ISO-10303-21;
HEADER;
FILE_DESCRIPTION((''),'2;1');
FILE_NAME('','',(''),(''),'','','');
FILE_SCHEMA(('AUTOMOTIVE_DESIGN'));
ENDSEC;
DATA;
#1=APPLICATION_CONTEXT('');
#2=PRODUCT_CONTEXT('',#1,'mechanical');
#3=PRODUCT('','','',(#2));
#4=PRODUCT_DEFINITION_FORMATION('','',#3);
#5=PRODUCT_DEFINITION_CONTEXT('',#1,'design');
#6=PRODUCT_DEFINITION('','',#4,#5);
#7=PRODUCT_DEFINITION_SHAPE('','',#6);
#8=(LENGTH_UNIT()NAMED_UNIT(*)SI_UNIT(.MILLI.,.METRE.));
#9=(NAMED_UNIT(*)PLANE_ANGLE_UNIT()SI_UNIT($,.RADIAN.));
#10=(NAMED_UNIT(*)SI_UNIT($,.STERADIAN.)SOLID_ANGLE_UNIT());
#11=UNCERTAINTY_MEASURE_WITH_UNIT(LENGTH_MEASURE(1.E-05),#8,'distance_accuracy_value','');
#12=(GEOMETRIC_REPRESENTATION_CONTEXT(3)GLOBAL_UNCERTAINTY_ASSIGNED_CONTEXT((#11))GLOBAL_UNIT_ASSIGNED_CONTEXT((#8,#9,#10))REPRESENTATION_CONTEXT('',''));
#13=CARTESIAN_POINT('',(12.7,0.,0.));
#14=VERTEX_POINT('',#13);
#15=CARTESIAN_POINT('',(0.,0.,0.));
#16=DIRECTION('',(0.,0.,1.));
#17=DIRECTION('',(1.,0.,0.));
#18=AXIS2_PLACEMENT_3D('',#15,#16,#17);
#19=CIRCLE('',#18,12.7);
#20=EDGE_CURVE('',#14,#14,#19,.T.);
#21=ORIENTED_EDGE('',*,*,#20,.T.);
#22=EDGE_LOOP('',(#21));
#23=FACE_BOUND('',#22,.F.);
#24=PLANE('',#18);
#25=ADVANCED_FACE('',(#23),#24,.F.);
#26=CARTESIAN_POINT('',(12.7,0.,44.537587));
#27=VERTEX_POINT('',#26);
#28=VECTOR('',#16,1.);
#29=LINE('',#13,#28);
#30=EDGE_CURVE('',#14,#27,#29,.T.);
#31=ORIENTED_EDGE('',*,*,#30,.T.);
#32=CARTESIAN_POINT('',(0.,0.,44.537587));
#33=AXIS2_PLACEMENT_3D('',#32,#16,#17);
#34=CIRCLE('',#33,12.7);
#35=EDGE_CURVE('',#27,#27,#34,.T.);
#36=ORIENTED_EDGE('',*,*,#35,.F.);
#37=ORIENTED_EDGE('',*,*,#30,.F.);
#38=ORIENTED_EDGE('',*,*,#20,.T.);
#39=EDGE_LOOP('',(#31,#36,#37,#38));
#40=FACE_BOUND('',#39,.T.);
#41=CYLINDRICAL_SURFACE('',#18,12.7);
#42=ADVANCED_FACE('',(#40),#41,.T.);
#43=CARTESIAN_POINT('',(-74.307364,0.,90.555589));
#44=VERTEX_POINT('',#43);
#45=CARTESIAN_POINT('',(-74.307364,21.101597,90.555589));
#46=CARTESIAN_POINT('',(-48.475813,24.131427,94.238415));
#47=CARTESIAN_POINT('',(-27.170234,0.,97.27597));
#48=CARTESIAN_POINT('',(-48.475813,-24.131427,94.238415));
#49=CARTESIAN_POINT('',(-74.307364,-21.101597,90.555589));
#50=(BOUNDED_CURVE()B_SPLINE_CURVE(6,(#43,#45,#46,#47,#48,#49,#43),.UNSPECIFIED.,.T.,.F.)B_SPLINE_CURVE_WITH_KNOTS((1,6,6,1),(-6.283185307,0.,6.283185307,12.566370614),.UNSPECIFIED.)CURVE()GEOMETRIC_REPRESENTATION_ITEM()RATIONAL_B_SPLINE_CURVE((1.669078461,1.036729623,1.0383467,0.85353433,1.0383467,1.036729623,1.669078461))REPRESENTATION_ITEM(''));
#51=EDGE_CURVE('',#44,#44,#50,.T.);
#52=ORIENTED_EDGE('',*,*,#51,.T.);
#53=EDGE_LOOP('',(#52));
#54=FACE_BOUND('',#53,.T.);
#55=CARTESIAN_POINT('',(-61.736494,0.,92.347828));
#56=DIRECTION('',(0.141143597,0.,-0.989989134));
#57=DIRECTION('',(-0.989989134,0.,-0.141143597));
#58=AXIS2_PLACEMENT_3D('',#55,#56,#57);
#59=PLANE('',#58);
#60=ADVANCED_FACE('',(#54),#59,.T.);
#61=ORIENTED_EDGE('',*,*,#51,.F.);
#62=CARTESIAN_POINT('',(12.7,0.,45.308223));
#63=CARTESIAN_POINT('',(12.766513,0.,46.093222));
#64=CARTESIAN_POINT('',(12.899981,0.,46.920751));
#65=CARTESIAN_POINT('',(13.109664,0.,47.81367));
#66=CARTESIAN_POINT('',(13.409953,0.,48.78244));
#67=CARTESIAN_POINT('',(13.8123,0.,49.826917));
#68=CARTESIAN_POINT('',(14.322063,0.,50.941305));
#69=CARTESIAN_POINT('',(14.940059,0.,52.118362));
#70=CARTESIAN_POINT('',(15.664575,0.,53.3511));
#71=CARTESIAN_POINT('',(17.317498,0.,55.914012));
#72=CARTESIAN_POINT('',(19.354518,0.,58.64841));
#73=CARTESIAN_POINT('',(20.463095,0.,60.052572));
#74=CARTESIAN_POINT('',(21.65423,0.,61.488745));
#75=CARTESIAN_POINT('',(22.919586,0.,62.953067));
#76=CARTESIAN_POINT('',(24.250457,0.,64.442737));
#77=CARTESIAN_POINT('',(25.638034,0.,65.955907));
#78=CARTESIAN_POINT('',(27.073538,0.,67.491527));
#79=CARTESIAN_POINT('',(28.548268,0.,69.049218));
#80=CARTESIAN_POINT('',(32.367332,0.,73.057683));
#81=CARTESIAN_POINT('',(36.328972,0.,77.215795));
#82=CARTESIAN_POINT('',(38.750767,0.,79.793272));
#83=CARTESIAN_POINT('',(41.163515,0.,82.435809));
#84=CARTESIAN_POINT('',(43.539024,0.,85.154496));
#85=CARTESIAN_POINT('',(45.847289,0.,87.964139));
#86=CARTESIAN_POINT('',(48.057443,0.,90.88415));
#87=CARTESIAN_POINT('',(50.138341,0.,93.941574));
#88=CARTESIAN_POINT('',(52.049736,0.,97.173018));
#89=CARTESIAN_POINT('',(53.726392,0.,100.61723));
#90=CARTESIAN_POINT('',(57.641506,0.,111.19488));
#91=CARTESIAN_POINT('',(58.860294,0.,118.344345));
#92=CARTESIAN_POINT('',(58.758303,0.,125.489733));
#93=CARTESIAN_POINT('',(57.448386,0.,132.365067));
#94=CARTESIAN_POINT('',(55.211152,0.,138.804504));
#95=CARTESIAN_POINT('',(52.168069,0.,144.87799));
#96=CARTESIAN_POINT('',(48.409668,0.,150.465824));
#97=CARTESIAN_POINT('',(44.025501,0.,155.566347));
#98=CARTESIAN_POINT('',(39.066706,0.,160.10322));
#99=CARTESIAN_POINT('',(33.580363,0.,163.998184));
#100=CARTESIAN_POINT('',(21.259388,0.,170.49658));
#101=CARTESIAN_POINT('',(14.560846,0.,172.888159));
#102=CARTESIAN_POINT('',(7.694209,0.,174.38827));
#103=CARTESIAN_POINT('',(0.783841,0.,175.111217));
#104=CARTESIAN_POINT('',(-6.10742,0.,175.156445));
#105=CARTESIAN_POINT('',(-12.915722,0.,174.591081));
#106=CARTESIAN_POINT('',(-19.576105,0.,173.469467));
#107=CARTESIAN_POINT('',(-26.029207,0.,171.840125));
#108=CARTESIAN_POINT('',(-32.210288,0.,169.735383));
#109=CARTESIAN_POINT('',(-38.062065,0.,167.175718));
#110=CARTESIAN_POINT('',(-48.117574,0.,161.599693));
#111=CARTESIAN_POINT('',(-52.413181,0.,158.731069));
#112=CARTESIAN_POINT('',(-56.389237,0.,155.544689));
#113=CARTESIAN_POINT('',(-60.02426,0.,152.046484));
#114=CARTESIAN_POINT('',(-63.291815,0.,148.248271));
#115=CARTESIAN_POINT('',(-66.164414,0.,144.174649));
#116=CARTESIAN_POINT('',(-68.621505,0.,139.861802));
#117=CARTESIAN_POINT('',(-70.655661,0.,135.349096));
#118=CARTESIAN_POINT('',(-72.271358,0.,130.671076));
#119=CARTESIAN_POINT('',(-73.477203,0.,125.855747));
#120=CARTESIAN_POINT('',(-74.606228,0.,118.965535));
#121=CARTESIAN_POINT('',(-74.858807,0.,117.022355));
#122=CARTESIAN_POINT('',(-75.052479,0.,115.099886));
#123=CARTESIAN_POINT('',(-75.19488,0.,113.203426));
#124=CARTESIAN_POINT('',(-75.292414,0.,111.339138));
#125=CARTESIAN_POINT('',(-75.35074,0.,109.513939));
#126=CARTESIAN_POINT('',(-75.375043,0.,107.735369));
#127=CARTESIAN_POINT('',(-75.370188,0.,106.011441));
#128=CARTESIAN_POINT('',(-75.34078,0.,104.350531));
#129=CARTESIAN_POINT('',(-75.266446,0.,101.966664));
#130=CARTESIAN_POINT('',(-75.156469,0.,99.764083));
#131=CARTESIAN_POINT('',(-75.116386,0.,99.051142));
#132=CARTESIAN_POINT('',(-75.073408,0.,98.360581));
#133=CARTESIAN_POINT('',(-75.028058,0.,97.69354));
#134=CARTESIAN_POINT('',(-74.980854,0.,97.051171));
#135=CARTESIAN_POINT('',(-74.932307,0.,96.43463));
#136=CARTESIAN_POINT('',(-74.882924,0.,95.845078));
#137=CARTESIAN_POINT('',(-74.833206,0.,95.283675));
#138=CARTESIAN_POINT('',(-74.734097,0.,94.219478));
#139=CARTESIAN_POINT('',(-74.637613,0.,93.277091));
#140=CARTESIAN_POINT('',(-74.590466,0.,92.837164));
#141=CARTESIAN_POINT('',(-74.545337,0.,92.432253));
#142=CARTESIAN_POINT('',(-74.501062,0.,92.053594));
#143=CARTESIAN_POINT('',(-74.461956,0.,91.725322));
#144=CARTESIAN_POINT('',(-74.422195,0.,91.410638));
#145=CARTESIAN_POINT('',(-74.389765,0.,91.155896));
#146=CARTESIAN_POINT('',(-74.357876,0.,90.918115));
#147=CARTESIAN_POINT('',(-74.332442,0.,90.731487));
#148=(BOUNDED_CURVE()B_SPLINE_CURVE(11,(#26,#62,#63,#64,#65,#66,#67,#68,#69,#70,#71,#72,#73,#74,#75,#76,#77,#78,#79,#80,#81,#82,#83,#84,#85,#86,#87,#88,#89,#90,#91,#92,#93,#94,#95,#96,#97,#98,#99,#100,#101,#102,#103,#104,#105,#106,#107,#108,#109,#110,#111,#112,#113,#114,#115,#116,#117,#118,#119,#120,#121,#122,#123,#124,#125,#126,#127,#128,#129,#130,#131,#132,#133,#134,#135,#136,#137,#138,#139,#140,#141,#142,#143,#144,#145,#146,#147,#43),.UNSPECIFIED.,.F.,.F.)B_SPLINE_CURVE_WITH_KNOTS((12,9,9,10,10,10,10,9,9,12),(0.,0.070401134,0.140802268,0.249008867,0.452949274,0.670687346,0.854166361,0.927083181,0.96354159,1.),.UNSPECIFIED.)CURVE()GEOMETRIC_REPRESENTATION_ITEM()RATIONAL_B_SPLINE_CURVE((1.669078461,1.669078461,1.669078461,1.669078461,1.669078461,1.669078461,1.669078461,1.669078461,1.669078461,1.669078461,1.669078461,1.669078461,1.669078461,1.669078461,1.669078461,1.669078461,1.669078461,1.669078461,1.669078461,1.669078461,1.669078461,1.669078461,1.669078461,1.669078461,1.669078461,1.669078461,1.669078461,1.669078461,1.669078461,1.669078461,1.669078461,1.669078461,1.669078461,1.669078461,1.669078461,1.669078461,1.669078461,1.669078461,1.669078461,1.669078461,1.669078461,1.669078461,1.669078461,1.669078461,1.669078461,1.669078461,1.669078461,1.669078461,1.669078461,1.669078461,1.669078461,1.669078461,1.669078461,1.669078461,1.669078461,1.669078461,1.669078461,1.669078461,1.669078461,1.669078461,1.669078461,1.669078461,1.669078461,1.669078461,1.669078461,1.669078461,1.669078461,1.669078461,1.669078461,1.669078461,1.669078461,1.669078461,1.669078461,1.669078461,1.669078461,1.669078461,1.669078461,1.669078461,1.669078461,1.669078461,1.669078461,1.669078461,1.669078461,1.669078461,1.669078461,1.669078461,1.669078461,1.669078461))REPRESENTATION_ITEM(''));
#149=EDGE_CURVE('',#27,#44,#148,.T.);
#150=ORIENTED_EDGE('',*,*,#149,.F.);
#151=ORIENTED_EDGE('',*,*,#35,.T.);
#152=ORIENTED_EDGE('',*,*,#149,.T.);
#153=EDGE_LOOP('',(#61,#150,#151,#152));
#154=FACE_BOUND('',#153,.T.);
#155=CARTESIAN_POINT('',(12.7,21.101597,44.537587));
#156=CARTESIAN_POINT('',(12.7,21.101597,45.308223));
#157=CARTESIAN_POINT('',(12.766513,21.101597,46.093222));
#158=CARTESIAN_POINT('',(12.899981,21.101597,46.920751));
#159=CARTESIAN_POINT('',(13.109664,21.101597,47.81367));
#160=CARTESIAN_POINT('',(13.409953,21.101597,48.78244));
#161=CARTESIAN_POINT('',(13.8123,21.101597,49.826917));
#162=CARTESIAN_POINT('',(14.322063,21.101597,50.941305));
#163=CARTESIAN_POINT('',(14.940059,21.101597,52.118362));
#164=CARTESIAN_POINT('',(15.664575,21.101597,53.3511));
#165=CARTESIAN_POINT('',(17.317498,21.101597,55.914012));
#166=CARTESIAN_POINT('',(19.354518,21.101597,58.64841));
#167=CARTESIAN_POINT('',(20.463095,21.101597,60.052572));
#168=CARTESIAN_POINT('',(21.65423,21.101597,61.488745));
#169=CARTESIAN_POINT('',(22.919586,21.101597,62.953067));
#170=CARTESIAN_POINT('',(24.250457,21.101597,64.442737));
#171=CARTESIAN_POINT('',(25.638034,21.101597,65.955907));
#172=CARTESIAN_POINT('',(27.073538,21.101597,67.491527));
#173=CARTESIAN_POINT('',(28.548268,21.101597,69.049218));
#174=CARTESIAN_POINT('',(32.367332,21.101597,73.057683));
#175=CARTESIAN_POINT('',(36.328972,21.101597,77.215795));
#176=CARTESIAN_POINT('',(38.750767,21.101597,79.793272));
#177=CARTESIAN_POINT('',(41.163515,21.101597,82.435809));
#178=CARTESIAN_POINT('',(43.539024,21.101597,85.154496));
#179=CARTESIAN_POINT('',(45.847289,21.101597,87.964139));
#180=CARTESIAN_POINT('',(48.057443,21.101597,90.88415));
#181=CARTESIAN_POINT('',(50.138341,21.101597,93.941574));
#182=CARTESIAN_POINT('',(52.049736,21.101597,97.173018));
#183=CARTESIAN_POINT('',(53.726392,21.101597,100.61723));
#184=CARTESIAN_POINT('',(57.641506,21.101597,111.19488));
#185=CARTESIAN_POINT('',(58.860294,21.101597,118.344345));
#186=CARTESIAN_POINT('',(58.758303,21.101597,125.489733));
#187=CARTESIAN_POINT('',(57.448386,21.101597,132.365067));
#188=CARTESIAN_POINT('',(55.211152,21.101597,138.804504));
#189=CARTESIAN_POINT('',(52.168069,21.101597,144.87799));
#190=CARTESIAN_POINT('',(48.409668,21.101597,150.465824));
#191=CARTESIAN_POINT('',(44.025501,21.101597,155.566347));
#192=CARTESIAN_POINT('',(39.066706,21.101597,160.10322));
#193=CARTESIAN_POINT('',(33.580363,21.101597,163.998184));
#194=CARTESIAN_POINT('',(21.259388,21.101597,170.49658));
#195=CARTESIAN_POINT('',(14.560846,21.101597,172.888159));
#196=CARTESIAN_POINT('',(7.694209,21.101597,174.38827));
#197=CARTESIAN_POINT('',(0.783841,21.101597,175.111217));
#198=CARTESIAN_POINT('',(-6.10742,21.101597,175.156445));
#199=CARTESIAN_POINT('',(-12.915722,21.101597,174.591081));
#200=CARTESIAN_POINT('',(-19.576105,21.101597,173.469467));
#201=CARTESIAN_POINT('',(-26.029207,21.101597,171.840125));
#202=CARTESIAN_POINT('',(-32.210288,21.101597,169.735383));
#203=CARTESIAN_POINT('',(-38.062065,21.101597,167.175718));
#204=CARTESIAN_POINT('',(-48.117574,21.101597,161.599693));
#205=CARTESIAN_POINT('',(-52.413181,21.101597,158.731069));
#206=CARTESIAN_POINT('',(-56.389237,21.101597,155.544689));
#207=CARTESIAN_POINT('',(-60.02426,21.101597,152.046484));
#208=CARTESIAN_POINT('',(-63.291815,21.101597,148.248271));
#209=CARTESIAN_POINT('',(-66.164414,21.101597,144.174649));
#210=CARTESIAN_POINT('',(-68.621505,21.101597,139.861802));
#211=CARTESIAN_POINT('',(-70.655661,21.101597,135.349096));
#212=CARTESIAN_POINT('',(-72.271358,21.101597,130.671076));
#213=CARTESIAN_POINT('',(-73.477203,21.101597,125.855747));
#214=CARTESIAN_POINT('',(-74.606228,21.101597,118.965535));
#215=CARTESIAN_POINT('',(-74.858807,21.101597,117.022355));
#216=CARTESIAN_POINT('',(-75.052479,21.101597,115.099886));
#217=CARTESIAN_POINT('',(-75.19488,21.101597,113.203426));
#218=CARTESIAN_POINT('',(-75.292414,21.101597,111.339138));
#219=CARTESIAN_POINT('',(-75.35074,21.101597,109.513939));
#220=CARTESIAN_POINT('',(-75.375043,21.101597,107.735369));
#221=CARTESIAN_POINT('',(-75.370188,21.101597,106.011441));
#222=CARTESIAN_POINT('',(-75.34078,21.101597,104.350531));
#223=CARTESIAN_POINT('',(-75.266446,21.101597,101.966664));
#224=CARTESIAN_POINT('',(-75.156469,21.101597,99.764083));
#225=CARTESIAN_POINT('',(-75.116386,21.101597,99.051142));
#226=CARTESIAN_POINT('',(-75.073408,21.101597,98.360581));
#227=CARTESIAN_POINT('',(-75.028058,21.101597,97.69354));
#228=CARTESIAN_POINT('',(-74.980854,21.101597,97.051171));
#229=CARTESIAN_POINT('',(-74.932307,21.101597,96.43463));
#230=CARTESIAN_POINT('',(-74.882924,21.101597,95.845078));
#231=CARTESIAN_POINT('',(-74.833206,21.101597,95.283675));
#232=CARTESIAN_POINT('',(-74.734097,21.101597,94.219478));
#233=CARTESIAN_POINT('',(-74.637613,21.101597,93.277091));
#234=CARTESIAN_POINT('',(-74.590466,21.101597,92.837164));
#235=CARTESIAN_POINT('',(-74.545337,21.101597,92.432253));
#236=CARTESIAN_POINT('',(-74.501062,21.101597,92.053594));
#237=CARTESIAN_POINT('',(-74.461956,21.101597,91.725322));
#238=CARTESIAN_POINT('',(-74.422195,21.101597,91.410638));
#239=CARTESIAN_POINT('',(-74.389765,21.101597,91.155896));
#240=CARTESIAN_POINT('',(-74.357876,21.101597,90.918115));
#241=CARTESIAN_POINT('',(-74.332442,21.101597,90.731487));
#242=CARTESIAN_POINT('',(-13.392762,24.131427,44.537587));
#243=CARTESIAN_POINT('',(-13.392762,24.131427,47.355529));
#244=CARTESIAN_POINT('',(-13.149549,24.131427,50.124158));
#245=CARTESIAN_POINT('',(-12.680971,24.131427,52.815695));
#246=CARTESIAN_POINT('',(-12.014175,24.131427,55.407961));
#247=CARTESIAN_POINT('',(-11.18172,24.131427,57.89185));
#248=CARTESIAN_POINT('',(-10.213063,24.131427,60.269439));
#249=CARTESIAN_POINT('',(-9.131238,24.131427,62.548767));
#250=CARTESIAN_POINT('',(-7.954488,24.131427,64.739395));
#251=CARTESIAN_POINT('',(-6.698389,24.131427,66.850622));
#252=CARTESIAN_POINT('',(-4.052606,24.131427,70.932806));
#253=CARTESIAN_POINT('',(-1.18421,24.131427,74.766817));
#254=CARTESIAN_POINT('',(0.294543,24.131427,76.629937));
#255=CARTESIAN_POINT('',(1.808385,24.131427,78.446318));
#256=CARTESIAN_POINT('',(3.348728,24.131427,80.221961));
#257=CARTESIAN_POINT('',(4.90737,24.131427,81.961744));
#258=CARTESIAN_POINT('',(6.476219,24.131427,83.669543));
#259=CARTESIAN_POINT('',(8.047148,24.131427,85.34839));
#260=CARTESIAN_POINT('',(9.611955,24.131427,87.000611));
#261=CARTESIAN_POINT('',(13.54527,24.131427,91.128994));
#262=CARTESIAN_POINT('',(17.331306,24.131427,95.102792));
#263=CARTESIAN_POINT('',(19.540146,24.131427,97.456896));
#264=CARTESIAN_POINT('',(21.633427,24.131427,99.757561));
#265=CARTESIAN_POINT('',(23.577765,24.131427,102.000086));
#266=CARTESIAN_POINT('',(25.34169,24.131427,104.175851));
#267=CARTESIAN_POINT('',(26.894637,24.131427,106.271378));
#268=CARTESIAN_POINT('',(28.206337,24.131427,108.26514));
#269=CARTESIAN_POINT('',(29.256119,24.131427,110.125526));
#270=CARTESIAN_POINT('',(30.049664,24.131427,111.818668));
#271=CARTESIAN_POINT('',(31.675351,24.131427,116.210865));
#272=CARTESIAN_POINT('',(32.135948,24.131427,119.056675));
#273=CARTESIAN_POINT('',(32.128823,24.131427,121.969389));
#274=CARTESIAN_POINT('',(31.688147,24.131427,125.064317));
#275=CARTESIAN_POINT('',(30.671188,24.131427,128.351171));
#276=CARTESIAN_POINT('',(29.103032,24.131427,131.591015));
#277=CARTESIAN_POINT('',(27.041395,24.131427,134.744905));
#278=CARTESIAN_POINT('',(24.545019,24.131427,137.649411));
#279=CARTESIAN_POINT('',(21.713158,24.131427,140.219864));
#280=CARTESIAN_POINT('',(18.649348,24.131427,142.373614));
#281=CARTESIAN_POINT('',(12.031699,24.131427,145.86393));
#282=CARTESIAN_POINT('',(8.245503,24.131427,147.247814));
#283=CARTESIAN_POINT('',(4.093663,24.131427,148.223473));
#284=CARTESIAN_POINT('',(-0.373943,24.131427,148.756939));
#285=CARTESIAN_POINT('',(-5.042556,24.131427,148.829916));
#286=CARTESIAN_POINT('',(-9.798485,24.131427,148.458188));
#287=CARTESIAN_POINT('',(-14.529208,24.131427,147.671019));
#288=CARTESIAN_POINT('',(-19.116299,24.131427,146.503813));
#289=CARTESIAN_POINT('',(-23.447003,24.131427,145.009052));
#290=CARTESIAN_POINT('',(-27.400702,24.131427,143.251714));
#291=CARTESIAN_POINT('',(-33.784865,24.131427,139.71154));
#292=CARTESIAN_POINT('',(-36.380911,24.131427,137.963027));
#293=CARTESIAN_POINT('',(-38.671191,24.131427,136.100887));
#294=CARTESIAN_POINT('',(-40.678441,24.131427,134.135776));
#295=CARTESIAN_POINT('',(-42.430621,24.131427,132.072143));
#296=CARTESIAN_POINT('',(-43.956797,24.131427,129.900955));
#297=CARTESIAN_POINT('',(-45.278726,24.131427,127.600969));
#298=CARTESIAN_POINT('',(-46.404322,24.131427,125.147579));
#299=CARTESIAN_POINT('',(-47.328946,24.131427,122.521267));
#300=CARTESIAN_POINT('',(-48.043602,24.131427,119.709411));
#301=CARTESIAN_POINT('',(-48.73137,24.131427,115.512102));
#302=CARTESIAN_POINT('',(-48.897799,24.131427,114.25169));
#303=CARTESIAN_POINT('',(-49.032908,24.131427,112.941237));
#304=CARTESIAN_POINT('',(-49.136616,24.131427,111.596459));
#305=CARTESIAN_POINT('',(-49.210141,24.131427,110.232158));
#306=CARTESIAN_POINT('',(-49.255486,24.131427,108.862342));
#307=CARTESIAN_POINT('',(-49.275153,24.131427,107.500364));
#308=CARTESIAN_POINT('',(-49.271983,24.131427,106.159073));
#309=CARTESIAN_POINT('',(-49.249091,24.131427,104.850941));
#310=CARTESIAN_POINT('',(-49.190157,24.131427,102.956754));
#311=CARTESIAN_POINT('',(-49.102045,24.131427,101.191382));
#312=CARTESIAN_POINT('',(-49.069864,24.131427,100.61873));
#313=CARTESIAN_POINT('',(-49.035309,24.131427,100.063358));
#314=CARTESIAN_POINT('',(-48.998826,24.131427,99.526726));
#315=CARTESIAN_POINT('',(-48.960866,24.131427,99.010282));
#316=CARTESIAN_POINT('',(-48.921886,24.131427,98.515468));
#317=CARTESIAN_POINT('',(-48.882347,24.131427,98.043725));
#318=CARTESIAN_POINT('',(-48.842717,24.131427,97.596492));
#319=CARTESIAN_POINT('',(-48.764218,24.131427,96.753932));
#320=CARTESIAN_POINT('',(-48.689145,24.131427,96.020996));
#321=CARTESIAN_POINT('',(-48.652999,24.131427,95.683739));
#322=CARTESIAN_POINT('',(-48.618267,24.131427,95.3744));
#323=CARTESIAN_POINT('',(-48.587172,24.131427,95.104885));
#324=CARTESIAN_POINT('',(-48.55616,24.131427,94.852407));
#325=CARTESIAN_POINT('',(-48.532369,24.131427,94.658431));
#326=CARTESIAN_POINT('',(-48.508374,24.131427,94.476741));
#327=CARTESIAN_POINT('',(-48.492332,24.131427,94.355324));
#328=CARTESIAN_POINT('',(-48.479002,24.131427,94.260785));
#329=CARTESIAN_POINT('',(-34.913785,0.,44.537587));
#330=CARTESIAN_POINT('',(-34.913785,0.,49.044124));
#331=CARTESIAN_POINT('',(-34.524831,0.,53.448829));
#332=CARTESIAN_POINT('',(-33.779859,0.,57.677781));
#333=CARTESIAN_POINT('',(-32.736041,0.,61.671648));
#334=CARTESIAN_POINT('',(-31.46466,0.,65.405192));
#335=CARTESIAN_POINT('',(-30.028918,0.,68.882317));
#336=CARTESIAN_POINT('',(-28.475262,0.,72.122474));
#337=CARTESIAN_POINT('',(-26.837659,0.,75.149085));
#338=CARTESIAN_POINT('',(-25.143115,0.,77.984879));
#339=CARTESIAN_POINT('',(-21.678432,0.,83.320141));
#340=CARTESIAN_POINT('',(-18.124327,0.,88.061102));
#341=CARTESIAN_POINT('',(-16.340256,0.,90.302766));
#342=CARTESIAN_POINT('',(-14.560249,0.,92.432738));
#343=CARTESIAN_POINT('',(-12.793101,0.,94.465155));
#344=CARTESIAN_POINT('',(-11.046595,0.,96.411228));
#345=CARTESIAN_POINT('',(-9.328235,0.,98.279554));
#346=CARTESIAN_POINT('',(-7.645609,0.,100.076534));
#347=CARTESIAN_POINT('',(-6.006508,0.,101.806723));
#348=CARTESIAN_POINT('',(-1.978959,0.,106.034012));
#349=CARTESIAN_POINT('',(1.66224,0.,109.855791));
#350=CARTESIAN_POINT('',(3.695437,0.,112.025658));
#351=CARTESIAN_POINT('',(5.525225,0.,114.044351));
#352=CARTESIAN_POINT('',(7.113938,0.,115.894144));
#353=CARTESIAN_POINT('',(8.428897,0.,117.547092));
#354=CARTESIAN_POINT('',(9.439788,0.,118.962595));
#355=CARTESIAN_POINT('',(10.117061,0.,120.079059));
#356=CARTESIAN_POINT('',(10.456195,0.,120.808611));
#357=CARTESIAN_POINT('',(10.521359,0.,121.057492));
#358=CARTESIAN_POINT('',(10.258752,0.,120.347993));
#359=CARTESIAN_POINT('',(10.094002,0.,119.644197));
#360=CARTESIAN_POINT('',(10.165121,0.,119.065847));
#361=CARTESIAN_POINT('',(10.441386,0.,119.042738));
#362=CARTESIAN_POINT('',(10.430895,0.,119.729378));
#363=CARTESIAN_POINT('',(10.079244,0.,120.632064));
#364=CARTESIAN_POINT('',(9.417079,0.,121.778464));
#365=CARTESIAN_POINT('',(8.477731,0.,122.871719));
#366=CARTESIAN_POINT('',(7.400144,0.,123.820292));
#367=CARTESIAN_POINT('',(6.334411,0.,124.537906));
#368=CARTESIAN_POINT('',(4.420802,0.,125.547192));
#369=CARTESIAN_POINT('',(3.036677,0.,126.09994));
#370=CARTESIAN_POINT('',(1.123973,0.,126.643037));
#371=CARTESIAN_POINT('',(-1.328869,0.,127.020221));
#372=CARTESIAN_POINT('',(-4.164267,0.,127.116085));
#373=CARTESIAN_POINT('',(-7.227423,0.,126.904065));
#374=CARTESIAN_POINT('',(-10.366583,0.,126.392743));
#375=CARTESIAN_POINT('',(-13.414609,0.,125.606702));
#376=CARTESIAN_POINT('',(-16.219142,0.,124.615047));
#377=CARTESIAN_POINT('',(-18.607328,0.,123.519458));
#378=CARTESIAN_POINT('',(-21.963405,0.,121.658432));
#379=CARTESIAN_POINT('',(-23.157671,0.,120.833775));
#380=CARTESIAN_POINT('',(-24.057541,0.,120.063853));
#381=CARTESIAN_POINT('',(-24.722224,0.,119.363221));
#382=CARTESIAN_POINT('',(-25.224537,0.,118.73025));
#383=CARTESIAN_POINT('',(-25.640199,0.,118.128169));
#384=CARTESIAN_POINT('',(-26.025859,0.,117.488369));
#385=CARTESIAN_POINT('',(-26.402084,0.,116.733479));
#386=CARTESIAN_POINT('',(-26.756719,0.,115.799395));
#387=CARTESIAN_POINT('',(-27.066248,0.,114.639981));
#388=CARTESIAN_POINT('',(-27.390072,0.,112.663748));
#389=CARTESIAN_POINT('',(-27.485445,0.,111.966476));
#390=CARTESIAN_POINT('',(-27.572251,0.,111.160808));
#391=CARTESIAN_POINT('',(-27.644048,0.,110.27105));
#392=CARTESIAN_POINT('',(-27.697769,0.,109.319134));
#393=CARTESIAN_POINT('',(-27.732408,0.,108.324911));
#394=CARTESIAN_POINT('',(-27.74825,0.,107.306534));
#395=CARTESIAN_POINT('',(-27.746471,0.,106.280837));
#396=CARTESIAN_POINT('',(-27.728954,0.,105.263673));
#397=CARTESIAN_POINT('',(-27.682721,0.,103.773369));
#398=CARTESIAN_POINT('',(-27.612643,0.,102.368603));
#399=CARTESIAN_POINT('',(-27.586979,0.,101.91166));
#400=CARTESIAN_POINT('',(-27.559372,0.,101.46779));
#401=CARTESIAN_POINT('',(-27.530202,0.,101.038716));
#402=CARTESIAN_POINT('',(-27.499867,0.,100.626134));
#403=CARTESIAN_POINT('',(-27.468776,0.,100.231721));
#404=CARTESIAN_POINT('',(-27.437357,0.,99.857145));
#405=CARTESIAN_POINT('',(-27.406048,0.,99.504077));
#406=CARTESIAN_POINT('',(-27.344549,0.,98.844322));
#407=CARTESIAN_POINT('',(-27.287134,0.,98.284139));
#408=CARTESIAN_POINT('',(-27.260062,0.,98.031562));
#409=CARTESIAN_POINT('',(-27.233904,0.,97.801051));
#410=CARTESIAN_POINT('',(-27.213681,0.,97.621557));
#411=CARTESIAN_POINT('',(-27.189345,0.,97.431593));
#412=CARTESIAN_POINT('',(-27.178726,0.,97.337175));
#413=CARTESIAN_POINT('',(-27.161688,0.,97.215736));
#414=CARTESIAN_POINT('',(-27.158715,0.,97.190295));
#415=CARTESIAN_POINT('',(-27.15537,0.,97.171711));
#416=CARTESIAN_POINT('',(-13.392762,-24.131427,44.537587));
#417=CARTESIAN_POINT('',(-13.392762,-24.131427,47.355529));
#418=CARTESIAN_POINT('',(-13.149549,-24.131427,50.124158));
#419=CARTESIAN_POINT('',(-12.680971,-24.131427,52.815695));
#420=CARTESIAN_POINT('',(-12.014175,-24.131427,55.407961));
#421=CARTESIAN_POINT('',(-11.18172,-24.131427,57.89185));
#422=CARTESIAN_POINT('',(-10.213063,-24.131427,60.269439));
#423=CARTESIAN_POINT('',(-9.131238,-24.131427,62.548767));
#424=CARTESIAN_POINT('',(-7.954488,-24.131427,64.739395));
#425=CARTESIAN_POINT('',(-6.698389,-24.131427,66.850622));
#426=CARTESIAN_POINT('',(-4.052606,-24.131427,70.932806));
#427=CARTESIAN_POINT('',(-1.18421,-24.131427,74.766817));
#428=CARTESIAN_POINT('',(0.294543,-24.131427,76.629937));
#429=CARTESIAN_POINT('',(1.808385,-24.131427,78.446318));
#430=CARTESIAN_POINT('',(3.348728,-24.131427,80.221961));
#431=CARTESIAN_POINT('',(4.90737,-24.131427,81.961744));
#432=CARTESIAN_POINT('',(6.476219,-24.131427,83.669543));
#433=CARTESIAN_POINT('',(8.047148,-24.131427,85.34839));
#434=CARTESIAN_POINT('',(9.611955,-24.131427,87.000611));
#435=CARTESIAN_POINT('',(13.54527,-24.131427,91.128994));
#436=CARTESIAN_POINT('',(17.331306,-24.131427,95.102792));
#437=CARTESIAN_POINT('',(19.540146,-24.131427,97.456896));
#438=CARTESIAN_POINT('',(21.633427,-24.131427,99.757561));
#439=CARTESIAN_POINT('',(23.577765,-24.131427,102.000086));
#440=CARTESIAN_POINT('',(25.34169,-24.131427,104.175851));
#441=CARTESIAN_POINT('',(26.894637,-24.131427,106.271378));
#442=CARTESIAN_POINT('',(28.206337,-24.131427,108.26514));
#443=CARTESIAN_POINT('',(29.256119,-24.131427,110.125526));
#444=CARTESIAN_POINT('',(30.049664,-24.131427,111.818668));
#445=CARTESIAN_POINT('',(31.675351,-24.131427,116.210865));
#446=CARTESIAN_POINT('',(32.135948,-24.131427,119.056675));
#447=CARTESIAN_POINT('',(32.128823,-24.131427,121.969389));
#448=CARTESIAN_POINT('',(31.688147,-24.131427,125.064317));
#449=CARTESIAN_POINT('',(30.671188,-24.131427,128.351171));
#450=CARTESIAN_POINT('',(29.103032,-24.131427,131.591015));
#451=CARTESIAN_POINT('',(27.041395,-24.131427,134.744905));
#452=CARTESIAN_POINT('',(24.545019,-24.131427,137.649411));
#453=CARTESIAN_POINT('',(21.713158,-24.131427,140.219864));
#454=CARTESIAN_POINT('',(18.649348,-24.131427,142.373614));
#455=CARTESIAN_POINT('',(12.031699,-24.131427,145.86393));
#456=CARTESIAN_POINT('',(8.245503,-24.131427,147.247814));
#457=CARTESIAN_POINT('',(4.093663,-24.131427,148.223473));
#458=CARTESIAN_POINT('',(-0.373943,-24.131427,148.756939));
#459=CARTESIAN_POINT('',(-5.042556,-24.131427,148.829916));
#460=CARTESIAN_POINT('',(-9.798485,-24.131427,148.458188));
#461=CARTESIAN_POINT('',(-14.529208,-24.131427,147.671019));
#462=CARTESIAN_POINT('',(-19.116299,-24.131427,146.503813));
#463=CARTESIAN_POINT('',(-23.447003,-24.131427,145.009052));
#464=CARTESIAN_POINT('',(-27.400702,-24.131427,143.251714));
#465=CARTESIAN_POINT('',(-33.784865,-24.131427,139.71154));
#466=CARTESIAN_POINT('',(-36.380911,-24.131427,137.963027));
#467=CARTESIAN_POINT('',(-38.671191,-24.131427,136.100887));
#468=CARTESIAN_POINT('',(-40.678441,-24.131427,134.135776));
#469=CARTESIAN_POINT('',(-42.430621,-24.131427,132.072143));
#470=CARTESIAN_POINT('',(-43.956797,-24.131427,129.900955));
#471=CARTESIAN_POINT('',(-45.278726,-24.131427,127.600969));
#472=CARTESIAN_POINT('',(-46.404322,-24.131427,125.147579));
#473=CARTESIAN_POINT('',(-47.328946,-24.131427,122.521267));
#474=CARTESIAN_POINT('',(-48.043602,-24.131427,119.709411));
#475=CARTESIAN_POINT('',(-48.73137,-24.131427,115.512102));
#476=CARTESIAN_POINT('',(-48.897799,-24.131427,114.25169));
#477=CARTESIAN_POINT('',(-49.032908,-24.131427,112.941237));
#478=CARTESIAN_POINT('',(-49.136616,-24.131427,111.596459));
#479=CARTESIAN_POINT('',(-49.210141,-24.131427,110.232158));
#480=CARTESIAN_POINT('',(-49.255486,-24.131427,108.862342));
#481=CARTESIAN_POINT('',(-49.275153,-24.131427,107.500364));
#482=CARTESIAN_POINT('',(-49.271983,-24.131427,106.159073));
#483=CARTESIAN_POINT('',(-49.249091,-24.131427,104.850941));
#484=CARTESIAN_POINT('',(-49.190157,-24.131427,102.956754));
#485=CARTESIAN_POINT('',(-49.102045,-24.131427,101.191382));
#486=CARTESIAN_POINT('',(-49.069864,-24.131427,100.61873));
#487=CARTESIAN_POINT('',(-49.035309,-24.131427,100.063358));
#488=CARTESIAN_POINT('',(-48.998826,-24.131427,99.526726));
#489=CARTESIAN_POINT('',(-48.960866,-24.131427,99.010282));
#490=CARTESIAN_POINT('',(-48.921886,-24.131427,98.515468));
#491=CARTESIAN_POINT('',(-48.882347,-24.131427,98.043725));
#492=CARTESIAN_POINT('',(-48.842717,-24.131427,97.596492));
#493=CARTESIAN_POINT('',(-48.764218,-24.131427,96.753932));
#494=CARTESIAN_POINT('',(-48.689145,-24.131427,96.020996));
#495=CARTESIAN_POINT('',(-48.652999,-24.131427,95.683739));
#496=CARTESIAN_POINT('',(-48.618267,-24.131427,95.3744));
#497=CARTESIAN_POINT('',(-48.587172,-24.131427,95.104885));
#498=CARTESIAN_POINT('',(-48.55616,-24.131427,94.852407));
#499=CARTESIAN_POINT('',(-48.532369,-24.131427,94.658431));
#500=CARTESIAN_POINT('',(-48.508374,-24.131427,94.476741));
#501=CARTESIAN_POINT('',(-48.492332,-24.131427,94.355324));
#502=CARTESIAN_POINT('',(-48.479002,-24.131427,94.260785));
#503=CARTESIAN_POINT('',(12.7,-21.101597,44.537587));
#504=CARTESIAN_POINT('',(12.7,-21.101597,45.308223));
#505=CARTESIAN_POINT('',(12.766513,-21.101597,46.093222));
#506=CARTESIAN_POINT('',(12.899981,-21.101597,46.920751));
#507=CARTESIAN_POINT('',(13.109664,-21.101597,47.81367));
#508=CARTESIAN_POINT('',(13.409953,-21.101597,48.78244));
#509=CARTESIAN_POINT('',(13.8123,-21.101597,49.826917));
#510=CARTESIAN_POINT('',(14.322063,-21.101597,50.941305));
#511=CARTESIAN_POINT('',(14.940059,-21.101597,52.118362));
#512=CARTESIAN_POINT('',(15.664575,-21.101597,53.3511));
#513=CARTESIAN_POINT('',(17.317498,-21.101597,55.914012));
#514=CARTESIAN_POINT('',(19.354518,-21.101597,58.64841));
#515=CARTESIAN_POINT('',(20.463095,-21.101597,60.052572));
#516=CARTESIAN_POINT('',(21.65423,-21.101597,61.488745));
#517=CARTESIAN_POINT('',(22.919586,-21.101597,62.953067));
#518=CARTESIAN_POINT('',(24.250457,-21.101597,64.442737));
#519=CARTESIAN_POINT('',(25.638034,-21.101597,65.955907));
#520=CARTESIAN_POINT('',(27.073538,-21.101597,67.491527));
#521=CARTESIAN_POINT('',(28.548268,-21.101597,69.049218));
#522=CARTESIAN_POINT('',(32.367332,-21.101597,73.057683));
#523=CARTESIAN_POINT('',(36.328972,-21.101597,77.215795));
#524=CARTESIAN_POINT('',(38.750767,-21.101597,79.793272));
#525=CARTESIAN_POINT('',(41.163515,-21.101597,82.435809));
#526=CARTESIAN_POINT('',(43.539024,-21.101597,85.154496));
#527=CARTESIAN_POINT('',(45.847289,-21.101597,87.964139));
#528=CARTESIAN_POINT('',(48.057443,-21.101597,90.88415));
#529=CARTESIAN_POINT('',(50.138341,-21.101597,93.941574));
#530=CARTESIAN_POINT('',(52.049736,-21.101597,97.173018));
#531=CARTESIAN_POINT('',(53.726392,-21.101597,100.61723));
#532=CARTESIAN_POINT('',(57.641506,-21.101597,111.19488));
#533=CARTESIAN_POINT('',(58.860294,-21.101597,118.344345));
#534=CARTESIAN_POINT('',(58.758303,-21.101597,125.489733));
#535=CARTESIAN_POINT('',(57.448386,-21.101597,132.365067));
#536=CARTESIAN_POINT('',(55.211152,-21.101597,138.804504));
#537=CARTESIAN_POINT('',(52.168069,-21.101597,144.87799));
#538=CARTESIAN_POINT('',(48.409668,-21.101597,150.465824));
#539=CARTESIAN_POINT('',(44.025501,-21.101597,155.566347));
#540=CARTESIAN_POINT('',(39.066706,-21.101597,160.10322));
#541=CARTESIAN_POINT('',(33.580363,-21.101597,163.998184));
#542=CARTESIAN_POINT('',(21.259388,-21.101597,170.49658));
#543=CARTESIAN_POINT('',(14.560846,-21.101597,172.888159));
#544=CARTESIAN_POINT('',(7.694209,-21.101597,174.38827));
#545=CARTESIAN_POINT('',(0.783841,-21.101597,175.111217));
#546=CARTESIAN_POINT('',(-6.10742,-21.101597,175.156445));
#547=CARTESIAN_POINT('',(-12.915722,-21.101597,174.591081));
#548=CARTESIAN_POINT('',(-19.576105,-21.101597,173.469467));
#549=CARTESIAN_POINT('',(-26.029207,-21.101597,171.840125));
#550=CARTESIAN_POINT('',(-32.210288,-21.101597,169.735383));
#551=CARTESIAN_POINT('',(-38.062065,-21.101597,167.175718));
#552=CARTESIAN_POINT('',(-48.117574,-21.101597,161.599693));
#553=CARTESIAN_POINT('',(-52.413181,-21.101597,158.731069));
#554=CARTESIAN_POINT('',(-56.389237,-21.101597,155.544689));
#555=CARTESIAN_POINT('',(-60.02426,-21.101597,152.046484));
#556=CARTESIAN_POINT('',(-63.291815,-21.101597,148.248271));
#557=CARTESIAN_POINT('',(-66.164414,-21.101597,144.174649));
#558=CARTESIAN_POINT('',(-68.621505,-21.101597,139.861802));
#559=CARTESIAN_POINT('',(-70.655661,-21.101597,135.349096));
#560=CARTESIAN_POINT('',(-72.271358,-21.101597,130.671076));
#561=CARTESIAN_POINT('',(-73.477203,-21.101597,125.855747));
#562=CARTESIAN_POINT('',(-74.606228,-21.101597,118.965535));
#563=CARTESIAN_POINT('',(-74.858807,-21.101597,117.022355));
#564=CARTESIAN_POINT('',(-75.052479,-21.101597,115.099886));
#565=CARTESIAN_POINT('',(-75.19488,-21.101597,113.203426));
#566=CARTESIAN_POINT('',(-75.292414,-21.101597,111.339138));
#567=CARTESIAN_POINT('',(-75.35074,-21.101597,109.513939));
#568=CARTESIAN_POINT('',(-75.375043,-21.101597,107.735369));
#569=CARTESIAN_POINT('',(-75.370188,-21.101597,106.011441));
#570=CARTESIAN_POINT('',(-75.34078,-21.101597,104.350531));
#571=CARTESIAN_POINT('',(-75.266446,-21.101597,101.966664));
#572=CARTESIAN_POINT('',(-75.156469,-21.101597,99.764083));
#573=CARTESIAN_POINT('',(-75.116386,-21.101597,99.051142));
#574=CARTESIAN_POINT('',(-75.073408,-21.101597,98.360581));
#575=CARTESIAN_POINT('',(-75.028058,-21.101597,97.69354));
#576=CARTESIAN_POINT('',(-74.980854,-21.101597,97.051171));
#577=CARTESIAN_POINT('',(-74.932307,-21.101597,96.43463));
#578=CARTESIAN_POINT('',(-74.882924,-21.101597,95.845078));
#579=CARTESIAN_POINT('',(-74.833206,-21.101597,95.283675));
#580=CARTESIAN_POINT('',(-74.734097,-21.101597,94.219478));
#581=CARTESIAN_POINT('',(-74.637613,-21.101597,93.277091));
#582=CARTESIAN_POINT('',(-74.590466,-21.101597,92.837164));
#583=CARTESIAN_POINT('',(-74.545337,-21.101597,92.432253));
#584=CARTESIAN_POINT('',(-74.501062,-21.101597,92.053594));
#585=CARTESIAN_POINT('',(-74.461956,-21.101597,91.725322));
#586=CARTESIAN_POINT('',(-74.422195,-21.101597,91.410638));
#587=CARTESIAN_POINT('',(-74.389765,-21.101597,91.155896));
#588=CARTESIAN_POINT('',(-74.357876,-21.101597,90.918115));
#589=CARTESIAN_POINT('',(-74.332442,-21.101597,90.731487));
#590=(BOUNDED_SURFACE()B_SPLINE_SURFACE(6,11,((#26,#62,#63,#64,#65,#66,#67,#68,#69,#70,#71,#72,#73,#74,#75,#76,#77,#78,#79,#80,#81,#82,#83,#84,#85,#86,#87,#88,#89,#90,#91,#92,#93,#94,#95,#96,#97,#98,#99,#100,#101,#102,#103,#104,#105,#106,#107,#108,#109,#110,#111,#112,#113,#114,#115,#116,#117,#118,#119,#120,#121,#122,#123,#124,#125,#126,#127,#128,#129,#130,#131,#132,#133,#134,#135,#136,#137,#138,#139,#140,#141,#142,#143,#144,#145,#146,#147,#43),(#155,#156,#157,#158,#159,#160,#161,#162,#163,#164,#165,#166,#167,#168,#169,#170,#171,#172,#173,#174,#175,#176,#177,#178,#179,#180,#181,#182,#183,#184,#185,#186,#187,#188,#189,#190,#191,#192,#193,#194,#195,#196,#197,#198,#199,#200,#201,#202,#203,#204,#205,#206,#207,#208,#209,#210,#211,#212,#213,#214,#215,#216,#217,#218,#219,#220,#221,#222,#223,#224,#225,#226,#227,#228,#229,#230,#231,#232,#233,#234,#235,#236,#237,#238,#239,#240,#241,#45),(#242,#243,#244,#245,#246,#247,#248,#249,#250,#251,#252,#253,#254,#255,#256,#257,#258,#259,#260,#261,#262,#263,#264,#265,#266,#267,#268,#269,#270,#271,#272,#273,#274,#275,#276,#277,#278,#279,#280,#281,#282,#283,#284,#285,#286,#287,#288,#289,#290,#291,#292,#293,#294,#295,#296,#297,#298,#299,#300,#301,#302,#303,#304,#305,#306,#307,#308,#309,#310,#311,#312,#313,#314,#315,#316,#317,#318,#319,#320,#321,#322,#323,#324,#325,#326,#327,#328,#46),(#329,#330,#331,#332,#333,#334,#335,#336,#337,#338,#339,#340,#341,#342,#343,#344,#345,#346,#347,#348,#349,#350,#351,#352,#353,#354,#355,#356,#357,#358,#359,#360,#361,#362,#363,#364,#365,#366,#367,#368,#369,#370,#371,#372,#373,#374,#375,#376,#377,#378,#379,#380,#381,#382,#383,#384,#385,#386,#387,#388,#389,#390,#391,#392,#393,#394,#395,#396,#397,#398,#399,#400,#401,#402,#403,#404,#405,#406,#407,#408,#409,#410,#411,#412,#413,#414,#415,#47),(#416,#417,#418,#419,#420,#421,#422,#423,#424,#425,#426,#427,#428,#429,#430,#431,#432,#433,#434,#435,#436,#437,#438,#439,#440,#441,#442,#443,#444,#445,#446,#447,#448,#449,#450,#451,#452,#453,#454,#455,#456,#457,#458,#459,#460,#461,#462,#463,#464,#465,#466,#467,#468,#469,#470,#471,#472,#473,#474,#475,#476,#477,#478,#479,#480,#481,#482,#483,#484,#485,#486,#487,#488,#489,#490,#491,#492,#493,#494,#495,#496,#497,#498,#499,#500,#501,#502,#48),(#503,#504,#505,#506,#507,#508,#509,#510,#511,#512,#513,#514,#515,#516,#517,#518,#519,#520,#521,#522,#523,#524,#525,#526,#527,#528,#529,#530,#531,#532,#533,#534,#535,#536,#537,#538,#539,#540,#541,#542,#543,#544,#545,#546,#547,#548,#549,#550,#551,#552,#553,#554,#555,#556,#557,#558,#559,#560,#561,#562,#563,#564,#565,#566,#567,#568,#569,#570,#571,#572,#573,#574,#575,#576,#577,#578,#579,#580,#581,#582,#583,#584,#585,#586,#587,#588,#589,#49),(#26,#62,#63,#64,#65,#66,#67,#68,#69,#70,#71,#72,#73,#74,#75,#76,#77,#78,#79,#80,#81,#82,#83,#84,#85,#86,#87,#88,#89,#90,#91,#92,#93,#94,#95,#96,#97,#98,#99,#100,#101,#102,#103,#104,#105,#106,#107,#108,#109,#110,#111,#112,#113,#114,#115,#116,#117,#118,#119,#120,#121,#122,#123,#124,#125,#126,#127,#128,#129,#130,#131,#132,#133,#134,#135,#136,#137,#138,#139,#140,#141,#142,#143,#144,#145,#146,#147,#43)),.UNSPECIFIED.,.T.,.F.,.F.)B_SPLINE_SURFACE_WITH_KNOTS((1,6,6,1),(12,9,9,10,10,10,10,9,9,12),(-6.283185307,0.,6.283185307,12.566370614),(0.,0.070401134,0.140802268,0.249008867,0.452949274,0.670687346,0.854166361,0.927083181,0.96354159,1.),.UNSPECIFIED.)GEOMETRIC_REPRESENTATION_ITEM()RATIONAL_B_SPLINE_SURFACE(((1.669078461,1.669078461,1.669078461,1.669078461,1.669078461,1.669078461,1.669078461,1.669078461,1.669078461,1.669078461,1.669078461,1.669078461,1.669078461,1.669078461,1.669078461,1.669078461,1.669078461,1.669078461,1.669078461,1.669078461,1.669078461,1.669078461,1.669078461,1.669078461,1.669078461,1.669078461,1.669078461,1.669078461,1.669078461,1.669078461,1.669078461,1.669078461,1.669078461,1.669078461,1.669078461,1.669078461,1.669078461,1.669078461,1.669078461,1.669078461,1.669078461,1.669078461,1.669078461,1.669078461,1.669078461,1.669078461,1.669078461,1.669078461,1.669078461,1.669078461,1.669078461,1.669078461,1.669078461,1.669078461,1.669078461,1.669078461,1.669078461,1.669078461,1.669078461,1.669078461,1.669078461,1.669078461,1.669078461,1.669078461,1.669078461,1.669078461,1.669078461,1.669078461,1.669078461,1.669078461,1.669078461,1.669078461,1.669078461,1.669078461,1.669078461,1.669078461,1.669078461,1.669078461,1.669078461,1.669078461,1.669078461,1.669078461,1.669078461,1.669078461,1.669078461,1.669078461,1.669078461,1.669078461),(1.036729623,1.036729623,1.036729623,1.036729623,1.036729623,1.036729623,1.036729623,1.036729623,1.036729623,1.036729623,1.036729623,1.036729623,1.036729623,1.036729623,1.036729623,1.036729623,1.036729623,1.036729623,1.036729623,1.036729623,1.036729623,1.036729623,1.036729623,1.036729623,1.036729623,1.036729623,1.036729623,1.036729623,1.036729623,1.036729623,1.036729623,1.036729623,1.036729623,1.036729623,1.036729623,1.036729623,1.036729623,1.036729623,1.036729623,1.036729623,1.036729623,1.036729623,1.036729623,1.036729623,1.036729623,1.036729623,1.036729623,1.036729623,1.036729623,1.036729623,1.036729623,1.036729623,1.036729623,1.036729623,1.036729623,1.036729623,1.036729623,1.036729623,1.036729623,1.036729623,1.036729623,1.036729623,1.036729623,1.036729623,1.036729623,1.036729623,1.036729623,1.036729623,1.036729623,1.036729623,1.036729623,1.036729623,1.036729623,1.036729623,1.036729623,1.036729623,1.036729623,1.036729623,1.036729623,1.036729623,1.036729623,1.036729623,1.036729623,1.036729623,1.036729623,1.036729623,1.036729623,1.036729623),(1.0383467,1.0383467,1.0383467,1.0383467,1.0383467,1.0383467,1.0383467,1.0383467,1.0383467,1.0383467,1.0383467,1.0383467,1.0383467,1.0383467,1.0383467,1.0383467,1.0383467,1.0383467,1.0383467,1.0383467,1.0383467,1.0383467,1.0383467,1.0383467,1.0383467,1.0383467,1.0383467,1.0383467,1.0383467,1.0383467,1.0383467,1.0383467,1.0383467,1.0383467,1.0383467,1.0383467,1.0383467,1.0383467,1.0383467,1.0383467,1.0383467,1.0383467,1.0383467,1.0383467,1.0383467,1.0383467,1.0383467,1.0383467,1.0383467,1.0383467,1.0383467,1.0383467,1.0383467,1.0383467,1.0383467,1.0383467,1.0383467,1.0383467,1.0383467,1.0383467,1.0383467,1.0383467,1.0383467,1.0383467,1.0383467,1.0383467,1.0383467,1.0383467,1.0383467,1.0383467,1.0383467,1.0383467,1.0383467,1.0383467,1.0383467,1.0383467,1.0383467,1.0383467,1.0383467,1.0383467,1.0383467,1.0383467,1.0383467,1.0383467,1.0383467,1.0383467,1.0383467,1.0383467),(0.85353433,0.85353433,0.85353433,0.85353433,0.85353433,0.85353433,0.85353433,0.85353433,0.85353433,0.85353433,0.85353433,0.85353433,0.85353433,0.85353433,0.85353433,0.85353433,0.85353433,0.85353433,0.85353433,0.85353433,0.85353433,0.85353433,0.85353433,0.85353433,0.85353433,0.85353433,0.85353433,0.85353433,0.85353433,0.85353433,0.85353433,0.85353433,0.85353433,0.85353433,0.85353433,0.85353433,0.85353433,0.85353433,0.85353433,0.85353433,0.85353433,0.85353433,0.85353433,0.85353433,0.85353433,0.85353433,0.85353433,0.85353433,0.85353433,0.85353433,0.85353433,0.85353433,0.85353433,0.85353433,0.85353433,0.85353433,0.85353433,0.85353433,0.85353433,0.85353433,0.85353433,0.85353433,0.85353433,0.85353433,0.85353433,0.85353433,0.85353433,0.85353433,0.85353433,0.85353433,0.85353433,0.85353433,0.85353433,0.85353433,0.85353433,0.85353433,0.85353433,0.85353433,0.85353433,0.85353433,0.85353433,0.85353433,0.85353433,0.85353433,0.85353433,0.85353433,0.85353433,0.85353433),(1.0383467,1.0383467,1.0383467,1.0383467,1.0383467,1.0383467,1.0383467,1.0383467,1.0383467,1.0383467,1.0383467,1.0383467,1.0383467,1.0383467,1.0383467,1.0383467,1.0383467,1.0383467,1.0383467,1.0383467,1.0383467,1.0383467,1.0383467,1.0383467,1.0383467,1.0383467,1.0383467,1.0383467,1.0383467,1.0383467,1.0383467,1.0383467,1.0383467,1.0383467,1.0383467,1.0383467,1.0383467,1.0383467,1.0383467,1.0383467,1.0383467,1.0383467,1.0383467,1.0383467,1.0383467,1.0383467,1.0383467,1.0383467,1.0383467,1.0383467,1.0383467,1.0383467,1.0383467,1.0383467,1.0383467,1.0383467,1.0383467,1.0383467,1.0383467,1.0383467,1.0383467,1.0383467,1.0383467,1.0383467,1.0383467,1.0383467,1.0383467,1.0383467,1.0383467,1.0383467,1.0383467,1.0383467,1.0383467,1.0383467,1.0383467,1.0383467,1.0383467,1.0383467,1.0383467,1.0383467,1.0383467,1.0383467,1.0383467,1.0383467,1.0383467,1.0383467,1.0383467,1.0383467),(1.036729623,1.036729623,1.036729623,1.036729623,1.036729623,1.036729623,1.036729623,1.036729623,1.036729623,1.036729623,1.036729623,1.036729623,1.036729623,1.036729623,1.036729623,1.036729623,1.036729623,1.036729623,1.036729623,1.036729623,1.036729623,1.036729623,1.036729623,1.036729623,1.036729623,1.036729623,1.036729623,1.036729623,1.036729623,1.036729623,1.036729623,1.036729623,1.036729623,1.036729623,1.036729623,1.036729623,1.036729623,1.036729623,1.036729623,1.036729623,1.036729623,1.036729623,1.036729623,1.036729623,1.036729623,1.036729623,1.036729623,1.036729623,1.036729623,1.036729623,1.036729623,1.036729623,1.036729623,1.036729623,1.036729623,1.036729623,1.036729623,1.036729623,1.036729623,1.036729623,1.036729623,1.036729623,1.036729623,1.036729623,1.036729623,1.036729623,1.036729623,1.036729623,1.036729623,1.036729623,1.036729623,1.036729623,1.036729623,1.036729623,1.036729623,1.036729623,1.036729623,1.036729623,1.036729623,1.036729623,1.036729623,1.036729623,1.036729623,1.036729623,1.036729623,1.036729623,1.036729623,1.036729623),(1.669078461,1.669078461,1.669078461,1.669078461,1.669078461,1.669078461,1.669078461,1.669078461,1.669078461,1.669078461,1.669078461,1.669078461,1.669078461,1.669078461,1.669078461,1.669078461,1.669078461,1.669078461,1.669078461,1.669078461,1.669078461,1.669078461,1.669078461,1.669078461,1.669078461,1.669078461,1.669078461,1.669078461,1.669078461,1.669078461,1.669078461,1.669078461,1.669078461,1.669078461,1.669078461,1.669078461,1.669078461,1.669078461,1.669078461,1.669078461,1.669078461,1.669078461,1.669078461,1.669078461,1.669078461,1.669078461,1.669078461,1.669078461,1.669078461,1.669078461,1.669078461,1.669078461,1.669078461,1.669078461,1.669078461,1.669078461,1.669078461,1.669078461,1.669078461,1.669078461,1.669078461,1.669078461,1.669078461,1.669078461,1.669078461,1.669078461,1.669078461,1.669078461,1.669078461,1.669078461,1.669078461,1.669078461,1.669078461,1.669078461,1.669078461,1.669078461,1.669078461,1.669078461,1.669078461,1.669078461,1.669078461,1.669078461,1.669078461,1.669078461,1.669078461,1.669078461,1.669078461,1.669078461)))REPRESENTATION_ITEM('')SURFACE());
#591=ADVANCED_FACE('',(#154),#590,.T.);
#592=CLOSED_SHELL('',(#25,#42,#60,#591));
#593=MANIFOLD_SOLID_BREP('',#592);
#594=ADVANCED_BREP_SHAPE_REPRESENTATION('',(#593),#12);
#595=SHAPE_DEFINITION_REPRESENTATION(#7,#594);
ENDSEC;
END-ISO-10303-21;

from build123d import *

# Parameters (mm, degrees)
F0_R = 12.7


with BuildPart() as f2:
    # F2: sweep along a path in F1
    with BuildLine(Plane.XZ) as f2_path:
        Line((0, 0), (0, 44.537586992))
        add(Plane.XZ * Edge.make_bspline(
            [(0, 44.537586992), (0, 67.455255341), (63.6305555032, 102.2046660488), (26.60206846, 168.5043510784), (-41.5786193546, 159.4092663403), (-65.8141058754, 124.0982128256), (-61.9460565267, 93.831967599), (-61.7345020239, 92.3481124115)],
            knots=[0, 0, 0, 0, 0.2490088668, 0.4529492743, 0.6706873462, 0.8541663612, 1, 1, 1, 1], degree=3))
    # F0 (on Top) → F2 (sweep)
    with BuildSketch(Plane.XY):
        Circle(F0_R)
    sweep(path=f2_path.line)


solid = f2.part
